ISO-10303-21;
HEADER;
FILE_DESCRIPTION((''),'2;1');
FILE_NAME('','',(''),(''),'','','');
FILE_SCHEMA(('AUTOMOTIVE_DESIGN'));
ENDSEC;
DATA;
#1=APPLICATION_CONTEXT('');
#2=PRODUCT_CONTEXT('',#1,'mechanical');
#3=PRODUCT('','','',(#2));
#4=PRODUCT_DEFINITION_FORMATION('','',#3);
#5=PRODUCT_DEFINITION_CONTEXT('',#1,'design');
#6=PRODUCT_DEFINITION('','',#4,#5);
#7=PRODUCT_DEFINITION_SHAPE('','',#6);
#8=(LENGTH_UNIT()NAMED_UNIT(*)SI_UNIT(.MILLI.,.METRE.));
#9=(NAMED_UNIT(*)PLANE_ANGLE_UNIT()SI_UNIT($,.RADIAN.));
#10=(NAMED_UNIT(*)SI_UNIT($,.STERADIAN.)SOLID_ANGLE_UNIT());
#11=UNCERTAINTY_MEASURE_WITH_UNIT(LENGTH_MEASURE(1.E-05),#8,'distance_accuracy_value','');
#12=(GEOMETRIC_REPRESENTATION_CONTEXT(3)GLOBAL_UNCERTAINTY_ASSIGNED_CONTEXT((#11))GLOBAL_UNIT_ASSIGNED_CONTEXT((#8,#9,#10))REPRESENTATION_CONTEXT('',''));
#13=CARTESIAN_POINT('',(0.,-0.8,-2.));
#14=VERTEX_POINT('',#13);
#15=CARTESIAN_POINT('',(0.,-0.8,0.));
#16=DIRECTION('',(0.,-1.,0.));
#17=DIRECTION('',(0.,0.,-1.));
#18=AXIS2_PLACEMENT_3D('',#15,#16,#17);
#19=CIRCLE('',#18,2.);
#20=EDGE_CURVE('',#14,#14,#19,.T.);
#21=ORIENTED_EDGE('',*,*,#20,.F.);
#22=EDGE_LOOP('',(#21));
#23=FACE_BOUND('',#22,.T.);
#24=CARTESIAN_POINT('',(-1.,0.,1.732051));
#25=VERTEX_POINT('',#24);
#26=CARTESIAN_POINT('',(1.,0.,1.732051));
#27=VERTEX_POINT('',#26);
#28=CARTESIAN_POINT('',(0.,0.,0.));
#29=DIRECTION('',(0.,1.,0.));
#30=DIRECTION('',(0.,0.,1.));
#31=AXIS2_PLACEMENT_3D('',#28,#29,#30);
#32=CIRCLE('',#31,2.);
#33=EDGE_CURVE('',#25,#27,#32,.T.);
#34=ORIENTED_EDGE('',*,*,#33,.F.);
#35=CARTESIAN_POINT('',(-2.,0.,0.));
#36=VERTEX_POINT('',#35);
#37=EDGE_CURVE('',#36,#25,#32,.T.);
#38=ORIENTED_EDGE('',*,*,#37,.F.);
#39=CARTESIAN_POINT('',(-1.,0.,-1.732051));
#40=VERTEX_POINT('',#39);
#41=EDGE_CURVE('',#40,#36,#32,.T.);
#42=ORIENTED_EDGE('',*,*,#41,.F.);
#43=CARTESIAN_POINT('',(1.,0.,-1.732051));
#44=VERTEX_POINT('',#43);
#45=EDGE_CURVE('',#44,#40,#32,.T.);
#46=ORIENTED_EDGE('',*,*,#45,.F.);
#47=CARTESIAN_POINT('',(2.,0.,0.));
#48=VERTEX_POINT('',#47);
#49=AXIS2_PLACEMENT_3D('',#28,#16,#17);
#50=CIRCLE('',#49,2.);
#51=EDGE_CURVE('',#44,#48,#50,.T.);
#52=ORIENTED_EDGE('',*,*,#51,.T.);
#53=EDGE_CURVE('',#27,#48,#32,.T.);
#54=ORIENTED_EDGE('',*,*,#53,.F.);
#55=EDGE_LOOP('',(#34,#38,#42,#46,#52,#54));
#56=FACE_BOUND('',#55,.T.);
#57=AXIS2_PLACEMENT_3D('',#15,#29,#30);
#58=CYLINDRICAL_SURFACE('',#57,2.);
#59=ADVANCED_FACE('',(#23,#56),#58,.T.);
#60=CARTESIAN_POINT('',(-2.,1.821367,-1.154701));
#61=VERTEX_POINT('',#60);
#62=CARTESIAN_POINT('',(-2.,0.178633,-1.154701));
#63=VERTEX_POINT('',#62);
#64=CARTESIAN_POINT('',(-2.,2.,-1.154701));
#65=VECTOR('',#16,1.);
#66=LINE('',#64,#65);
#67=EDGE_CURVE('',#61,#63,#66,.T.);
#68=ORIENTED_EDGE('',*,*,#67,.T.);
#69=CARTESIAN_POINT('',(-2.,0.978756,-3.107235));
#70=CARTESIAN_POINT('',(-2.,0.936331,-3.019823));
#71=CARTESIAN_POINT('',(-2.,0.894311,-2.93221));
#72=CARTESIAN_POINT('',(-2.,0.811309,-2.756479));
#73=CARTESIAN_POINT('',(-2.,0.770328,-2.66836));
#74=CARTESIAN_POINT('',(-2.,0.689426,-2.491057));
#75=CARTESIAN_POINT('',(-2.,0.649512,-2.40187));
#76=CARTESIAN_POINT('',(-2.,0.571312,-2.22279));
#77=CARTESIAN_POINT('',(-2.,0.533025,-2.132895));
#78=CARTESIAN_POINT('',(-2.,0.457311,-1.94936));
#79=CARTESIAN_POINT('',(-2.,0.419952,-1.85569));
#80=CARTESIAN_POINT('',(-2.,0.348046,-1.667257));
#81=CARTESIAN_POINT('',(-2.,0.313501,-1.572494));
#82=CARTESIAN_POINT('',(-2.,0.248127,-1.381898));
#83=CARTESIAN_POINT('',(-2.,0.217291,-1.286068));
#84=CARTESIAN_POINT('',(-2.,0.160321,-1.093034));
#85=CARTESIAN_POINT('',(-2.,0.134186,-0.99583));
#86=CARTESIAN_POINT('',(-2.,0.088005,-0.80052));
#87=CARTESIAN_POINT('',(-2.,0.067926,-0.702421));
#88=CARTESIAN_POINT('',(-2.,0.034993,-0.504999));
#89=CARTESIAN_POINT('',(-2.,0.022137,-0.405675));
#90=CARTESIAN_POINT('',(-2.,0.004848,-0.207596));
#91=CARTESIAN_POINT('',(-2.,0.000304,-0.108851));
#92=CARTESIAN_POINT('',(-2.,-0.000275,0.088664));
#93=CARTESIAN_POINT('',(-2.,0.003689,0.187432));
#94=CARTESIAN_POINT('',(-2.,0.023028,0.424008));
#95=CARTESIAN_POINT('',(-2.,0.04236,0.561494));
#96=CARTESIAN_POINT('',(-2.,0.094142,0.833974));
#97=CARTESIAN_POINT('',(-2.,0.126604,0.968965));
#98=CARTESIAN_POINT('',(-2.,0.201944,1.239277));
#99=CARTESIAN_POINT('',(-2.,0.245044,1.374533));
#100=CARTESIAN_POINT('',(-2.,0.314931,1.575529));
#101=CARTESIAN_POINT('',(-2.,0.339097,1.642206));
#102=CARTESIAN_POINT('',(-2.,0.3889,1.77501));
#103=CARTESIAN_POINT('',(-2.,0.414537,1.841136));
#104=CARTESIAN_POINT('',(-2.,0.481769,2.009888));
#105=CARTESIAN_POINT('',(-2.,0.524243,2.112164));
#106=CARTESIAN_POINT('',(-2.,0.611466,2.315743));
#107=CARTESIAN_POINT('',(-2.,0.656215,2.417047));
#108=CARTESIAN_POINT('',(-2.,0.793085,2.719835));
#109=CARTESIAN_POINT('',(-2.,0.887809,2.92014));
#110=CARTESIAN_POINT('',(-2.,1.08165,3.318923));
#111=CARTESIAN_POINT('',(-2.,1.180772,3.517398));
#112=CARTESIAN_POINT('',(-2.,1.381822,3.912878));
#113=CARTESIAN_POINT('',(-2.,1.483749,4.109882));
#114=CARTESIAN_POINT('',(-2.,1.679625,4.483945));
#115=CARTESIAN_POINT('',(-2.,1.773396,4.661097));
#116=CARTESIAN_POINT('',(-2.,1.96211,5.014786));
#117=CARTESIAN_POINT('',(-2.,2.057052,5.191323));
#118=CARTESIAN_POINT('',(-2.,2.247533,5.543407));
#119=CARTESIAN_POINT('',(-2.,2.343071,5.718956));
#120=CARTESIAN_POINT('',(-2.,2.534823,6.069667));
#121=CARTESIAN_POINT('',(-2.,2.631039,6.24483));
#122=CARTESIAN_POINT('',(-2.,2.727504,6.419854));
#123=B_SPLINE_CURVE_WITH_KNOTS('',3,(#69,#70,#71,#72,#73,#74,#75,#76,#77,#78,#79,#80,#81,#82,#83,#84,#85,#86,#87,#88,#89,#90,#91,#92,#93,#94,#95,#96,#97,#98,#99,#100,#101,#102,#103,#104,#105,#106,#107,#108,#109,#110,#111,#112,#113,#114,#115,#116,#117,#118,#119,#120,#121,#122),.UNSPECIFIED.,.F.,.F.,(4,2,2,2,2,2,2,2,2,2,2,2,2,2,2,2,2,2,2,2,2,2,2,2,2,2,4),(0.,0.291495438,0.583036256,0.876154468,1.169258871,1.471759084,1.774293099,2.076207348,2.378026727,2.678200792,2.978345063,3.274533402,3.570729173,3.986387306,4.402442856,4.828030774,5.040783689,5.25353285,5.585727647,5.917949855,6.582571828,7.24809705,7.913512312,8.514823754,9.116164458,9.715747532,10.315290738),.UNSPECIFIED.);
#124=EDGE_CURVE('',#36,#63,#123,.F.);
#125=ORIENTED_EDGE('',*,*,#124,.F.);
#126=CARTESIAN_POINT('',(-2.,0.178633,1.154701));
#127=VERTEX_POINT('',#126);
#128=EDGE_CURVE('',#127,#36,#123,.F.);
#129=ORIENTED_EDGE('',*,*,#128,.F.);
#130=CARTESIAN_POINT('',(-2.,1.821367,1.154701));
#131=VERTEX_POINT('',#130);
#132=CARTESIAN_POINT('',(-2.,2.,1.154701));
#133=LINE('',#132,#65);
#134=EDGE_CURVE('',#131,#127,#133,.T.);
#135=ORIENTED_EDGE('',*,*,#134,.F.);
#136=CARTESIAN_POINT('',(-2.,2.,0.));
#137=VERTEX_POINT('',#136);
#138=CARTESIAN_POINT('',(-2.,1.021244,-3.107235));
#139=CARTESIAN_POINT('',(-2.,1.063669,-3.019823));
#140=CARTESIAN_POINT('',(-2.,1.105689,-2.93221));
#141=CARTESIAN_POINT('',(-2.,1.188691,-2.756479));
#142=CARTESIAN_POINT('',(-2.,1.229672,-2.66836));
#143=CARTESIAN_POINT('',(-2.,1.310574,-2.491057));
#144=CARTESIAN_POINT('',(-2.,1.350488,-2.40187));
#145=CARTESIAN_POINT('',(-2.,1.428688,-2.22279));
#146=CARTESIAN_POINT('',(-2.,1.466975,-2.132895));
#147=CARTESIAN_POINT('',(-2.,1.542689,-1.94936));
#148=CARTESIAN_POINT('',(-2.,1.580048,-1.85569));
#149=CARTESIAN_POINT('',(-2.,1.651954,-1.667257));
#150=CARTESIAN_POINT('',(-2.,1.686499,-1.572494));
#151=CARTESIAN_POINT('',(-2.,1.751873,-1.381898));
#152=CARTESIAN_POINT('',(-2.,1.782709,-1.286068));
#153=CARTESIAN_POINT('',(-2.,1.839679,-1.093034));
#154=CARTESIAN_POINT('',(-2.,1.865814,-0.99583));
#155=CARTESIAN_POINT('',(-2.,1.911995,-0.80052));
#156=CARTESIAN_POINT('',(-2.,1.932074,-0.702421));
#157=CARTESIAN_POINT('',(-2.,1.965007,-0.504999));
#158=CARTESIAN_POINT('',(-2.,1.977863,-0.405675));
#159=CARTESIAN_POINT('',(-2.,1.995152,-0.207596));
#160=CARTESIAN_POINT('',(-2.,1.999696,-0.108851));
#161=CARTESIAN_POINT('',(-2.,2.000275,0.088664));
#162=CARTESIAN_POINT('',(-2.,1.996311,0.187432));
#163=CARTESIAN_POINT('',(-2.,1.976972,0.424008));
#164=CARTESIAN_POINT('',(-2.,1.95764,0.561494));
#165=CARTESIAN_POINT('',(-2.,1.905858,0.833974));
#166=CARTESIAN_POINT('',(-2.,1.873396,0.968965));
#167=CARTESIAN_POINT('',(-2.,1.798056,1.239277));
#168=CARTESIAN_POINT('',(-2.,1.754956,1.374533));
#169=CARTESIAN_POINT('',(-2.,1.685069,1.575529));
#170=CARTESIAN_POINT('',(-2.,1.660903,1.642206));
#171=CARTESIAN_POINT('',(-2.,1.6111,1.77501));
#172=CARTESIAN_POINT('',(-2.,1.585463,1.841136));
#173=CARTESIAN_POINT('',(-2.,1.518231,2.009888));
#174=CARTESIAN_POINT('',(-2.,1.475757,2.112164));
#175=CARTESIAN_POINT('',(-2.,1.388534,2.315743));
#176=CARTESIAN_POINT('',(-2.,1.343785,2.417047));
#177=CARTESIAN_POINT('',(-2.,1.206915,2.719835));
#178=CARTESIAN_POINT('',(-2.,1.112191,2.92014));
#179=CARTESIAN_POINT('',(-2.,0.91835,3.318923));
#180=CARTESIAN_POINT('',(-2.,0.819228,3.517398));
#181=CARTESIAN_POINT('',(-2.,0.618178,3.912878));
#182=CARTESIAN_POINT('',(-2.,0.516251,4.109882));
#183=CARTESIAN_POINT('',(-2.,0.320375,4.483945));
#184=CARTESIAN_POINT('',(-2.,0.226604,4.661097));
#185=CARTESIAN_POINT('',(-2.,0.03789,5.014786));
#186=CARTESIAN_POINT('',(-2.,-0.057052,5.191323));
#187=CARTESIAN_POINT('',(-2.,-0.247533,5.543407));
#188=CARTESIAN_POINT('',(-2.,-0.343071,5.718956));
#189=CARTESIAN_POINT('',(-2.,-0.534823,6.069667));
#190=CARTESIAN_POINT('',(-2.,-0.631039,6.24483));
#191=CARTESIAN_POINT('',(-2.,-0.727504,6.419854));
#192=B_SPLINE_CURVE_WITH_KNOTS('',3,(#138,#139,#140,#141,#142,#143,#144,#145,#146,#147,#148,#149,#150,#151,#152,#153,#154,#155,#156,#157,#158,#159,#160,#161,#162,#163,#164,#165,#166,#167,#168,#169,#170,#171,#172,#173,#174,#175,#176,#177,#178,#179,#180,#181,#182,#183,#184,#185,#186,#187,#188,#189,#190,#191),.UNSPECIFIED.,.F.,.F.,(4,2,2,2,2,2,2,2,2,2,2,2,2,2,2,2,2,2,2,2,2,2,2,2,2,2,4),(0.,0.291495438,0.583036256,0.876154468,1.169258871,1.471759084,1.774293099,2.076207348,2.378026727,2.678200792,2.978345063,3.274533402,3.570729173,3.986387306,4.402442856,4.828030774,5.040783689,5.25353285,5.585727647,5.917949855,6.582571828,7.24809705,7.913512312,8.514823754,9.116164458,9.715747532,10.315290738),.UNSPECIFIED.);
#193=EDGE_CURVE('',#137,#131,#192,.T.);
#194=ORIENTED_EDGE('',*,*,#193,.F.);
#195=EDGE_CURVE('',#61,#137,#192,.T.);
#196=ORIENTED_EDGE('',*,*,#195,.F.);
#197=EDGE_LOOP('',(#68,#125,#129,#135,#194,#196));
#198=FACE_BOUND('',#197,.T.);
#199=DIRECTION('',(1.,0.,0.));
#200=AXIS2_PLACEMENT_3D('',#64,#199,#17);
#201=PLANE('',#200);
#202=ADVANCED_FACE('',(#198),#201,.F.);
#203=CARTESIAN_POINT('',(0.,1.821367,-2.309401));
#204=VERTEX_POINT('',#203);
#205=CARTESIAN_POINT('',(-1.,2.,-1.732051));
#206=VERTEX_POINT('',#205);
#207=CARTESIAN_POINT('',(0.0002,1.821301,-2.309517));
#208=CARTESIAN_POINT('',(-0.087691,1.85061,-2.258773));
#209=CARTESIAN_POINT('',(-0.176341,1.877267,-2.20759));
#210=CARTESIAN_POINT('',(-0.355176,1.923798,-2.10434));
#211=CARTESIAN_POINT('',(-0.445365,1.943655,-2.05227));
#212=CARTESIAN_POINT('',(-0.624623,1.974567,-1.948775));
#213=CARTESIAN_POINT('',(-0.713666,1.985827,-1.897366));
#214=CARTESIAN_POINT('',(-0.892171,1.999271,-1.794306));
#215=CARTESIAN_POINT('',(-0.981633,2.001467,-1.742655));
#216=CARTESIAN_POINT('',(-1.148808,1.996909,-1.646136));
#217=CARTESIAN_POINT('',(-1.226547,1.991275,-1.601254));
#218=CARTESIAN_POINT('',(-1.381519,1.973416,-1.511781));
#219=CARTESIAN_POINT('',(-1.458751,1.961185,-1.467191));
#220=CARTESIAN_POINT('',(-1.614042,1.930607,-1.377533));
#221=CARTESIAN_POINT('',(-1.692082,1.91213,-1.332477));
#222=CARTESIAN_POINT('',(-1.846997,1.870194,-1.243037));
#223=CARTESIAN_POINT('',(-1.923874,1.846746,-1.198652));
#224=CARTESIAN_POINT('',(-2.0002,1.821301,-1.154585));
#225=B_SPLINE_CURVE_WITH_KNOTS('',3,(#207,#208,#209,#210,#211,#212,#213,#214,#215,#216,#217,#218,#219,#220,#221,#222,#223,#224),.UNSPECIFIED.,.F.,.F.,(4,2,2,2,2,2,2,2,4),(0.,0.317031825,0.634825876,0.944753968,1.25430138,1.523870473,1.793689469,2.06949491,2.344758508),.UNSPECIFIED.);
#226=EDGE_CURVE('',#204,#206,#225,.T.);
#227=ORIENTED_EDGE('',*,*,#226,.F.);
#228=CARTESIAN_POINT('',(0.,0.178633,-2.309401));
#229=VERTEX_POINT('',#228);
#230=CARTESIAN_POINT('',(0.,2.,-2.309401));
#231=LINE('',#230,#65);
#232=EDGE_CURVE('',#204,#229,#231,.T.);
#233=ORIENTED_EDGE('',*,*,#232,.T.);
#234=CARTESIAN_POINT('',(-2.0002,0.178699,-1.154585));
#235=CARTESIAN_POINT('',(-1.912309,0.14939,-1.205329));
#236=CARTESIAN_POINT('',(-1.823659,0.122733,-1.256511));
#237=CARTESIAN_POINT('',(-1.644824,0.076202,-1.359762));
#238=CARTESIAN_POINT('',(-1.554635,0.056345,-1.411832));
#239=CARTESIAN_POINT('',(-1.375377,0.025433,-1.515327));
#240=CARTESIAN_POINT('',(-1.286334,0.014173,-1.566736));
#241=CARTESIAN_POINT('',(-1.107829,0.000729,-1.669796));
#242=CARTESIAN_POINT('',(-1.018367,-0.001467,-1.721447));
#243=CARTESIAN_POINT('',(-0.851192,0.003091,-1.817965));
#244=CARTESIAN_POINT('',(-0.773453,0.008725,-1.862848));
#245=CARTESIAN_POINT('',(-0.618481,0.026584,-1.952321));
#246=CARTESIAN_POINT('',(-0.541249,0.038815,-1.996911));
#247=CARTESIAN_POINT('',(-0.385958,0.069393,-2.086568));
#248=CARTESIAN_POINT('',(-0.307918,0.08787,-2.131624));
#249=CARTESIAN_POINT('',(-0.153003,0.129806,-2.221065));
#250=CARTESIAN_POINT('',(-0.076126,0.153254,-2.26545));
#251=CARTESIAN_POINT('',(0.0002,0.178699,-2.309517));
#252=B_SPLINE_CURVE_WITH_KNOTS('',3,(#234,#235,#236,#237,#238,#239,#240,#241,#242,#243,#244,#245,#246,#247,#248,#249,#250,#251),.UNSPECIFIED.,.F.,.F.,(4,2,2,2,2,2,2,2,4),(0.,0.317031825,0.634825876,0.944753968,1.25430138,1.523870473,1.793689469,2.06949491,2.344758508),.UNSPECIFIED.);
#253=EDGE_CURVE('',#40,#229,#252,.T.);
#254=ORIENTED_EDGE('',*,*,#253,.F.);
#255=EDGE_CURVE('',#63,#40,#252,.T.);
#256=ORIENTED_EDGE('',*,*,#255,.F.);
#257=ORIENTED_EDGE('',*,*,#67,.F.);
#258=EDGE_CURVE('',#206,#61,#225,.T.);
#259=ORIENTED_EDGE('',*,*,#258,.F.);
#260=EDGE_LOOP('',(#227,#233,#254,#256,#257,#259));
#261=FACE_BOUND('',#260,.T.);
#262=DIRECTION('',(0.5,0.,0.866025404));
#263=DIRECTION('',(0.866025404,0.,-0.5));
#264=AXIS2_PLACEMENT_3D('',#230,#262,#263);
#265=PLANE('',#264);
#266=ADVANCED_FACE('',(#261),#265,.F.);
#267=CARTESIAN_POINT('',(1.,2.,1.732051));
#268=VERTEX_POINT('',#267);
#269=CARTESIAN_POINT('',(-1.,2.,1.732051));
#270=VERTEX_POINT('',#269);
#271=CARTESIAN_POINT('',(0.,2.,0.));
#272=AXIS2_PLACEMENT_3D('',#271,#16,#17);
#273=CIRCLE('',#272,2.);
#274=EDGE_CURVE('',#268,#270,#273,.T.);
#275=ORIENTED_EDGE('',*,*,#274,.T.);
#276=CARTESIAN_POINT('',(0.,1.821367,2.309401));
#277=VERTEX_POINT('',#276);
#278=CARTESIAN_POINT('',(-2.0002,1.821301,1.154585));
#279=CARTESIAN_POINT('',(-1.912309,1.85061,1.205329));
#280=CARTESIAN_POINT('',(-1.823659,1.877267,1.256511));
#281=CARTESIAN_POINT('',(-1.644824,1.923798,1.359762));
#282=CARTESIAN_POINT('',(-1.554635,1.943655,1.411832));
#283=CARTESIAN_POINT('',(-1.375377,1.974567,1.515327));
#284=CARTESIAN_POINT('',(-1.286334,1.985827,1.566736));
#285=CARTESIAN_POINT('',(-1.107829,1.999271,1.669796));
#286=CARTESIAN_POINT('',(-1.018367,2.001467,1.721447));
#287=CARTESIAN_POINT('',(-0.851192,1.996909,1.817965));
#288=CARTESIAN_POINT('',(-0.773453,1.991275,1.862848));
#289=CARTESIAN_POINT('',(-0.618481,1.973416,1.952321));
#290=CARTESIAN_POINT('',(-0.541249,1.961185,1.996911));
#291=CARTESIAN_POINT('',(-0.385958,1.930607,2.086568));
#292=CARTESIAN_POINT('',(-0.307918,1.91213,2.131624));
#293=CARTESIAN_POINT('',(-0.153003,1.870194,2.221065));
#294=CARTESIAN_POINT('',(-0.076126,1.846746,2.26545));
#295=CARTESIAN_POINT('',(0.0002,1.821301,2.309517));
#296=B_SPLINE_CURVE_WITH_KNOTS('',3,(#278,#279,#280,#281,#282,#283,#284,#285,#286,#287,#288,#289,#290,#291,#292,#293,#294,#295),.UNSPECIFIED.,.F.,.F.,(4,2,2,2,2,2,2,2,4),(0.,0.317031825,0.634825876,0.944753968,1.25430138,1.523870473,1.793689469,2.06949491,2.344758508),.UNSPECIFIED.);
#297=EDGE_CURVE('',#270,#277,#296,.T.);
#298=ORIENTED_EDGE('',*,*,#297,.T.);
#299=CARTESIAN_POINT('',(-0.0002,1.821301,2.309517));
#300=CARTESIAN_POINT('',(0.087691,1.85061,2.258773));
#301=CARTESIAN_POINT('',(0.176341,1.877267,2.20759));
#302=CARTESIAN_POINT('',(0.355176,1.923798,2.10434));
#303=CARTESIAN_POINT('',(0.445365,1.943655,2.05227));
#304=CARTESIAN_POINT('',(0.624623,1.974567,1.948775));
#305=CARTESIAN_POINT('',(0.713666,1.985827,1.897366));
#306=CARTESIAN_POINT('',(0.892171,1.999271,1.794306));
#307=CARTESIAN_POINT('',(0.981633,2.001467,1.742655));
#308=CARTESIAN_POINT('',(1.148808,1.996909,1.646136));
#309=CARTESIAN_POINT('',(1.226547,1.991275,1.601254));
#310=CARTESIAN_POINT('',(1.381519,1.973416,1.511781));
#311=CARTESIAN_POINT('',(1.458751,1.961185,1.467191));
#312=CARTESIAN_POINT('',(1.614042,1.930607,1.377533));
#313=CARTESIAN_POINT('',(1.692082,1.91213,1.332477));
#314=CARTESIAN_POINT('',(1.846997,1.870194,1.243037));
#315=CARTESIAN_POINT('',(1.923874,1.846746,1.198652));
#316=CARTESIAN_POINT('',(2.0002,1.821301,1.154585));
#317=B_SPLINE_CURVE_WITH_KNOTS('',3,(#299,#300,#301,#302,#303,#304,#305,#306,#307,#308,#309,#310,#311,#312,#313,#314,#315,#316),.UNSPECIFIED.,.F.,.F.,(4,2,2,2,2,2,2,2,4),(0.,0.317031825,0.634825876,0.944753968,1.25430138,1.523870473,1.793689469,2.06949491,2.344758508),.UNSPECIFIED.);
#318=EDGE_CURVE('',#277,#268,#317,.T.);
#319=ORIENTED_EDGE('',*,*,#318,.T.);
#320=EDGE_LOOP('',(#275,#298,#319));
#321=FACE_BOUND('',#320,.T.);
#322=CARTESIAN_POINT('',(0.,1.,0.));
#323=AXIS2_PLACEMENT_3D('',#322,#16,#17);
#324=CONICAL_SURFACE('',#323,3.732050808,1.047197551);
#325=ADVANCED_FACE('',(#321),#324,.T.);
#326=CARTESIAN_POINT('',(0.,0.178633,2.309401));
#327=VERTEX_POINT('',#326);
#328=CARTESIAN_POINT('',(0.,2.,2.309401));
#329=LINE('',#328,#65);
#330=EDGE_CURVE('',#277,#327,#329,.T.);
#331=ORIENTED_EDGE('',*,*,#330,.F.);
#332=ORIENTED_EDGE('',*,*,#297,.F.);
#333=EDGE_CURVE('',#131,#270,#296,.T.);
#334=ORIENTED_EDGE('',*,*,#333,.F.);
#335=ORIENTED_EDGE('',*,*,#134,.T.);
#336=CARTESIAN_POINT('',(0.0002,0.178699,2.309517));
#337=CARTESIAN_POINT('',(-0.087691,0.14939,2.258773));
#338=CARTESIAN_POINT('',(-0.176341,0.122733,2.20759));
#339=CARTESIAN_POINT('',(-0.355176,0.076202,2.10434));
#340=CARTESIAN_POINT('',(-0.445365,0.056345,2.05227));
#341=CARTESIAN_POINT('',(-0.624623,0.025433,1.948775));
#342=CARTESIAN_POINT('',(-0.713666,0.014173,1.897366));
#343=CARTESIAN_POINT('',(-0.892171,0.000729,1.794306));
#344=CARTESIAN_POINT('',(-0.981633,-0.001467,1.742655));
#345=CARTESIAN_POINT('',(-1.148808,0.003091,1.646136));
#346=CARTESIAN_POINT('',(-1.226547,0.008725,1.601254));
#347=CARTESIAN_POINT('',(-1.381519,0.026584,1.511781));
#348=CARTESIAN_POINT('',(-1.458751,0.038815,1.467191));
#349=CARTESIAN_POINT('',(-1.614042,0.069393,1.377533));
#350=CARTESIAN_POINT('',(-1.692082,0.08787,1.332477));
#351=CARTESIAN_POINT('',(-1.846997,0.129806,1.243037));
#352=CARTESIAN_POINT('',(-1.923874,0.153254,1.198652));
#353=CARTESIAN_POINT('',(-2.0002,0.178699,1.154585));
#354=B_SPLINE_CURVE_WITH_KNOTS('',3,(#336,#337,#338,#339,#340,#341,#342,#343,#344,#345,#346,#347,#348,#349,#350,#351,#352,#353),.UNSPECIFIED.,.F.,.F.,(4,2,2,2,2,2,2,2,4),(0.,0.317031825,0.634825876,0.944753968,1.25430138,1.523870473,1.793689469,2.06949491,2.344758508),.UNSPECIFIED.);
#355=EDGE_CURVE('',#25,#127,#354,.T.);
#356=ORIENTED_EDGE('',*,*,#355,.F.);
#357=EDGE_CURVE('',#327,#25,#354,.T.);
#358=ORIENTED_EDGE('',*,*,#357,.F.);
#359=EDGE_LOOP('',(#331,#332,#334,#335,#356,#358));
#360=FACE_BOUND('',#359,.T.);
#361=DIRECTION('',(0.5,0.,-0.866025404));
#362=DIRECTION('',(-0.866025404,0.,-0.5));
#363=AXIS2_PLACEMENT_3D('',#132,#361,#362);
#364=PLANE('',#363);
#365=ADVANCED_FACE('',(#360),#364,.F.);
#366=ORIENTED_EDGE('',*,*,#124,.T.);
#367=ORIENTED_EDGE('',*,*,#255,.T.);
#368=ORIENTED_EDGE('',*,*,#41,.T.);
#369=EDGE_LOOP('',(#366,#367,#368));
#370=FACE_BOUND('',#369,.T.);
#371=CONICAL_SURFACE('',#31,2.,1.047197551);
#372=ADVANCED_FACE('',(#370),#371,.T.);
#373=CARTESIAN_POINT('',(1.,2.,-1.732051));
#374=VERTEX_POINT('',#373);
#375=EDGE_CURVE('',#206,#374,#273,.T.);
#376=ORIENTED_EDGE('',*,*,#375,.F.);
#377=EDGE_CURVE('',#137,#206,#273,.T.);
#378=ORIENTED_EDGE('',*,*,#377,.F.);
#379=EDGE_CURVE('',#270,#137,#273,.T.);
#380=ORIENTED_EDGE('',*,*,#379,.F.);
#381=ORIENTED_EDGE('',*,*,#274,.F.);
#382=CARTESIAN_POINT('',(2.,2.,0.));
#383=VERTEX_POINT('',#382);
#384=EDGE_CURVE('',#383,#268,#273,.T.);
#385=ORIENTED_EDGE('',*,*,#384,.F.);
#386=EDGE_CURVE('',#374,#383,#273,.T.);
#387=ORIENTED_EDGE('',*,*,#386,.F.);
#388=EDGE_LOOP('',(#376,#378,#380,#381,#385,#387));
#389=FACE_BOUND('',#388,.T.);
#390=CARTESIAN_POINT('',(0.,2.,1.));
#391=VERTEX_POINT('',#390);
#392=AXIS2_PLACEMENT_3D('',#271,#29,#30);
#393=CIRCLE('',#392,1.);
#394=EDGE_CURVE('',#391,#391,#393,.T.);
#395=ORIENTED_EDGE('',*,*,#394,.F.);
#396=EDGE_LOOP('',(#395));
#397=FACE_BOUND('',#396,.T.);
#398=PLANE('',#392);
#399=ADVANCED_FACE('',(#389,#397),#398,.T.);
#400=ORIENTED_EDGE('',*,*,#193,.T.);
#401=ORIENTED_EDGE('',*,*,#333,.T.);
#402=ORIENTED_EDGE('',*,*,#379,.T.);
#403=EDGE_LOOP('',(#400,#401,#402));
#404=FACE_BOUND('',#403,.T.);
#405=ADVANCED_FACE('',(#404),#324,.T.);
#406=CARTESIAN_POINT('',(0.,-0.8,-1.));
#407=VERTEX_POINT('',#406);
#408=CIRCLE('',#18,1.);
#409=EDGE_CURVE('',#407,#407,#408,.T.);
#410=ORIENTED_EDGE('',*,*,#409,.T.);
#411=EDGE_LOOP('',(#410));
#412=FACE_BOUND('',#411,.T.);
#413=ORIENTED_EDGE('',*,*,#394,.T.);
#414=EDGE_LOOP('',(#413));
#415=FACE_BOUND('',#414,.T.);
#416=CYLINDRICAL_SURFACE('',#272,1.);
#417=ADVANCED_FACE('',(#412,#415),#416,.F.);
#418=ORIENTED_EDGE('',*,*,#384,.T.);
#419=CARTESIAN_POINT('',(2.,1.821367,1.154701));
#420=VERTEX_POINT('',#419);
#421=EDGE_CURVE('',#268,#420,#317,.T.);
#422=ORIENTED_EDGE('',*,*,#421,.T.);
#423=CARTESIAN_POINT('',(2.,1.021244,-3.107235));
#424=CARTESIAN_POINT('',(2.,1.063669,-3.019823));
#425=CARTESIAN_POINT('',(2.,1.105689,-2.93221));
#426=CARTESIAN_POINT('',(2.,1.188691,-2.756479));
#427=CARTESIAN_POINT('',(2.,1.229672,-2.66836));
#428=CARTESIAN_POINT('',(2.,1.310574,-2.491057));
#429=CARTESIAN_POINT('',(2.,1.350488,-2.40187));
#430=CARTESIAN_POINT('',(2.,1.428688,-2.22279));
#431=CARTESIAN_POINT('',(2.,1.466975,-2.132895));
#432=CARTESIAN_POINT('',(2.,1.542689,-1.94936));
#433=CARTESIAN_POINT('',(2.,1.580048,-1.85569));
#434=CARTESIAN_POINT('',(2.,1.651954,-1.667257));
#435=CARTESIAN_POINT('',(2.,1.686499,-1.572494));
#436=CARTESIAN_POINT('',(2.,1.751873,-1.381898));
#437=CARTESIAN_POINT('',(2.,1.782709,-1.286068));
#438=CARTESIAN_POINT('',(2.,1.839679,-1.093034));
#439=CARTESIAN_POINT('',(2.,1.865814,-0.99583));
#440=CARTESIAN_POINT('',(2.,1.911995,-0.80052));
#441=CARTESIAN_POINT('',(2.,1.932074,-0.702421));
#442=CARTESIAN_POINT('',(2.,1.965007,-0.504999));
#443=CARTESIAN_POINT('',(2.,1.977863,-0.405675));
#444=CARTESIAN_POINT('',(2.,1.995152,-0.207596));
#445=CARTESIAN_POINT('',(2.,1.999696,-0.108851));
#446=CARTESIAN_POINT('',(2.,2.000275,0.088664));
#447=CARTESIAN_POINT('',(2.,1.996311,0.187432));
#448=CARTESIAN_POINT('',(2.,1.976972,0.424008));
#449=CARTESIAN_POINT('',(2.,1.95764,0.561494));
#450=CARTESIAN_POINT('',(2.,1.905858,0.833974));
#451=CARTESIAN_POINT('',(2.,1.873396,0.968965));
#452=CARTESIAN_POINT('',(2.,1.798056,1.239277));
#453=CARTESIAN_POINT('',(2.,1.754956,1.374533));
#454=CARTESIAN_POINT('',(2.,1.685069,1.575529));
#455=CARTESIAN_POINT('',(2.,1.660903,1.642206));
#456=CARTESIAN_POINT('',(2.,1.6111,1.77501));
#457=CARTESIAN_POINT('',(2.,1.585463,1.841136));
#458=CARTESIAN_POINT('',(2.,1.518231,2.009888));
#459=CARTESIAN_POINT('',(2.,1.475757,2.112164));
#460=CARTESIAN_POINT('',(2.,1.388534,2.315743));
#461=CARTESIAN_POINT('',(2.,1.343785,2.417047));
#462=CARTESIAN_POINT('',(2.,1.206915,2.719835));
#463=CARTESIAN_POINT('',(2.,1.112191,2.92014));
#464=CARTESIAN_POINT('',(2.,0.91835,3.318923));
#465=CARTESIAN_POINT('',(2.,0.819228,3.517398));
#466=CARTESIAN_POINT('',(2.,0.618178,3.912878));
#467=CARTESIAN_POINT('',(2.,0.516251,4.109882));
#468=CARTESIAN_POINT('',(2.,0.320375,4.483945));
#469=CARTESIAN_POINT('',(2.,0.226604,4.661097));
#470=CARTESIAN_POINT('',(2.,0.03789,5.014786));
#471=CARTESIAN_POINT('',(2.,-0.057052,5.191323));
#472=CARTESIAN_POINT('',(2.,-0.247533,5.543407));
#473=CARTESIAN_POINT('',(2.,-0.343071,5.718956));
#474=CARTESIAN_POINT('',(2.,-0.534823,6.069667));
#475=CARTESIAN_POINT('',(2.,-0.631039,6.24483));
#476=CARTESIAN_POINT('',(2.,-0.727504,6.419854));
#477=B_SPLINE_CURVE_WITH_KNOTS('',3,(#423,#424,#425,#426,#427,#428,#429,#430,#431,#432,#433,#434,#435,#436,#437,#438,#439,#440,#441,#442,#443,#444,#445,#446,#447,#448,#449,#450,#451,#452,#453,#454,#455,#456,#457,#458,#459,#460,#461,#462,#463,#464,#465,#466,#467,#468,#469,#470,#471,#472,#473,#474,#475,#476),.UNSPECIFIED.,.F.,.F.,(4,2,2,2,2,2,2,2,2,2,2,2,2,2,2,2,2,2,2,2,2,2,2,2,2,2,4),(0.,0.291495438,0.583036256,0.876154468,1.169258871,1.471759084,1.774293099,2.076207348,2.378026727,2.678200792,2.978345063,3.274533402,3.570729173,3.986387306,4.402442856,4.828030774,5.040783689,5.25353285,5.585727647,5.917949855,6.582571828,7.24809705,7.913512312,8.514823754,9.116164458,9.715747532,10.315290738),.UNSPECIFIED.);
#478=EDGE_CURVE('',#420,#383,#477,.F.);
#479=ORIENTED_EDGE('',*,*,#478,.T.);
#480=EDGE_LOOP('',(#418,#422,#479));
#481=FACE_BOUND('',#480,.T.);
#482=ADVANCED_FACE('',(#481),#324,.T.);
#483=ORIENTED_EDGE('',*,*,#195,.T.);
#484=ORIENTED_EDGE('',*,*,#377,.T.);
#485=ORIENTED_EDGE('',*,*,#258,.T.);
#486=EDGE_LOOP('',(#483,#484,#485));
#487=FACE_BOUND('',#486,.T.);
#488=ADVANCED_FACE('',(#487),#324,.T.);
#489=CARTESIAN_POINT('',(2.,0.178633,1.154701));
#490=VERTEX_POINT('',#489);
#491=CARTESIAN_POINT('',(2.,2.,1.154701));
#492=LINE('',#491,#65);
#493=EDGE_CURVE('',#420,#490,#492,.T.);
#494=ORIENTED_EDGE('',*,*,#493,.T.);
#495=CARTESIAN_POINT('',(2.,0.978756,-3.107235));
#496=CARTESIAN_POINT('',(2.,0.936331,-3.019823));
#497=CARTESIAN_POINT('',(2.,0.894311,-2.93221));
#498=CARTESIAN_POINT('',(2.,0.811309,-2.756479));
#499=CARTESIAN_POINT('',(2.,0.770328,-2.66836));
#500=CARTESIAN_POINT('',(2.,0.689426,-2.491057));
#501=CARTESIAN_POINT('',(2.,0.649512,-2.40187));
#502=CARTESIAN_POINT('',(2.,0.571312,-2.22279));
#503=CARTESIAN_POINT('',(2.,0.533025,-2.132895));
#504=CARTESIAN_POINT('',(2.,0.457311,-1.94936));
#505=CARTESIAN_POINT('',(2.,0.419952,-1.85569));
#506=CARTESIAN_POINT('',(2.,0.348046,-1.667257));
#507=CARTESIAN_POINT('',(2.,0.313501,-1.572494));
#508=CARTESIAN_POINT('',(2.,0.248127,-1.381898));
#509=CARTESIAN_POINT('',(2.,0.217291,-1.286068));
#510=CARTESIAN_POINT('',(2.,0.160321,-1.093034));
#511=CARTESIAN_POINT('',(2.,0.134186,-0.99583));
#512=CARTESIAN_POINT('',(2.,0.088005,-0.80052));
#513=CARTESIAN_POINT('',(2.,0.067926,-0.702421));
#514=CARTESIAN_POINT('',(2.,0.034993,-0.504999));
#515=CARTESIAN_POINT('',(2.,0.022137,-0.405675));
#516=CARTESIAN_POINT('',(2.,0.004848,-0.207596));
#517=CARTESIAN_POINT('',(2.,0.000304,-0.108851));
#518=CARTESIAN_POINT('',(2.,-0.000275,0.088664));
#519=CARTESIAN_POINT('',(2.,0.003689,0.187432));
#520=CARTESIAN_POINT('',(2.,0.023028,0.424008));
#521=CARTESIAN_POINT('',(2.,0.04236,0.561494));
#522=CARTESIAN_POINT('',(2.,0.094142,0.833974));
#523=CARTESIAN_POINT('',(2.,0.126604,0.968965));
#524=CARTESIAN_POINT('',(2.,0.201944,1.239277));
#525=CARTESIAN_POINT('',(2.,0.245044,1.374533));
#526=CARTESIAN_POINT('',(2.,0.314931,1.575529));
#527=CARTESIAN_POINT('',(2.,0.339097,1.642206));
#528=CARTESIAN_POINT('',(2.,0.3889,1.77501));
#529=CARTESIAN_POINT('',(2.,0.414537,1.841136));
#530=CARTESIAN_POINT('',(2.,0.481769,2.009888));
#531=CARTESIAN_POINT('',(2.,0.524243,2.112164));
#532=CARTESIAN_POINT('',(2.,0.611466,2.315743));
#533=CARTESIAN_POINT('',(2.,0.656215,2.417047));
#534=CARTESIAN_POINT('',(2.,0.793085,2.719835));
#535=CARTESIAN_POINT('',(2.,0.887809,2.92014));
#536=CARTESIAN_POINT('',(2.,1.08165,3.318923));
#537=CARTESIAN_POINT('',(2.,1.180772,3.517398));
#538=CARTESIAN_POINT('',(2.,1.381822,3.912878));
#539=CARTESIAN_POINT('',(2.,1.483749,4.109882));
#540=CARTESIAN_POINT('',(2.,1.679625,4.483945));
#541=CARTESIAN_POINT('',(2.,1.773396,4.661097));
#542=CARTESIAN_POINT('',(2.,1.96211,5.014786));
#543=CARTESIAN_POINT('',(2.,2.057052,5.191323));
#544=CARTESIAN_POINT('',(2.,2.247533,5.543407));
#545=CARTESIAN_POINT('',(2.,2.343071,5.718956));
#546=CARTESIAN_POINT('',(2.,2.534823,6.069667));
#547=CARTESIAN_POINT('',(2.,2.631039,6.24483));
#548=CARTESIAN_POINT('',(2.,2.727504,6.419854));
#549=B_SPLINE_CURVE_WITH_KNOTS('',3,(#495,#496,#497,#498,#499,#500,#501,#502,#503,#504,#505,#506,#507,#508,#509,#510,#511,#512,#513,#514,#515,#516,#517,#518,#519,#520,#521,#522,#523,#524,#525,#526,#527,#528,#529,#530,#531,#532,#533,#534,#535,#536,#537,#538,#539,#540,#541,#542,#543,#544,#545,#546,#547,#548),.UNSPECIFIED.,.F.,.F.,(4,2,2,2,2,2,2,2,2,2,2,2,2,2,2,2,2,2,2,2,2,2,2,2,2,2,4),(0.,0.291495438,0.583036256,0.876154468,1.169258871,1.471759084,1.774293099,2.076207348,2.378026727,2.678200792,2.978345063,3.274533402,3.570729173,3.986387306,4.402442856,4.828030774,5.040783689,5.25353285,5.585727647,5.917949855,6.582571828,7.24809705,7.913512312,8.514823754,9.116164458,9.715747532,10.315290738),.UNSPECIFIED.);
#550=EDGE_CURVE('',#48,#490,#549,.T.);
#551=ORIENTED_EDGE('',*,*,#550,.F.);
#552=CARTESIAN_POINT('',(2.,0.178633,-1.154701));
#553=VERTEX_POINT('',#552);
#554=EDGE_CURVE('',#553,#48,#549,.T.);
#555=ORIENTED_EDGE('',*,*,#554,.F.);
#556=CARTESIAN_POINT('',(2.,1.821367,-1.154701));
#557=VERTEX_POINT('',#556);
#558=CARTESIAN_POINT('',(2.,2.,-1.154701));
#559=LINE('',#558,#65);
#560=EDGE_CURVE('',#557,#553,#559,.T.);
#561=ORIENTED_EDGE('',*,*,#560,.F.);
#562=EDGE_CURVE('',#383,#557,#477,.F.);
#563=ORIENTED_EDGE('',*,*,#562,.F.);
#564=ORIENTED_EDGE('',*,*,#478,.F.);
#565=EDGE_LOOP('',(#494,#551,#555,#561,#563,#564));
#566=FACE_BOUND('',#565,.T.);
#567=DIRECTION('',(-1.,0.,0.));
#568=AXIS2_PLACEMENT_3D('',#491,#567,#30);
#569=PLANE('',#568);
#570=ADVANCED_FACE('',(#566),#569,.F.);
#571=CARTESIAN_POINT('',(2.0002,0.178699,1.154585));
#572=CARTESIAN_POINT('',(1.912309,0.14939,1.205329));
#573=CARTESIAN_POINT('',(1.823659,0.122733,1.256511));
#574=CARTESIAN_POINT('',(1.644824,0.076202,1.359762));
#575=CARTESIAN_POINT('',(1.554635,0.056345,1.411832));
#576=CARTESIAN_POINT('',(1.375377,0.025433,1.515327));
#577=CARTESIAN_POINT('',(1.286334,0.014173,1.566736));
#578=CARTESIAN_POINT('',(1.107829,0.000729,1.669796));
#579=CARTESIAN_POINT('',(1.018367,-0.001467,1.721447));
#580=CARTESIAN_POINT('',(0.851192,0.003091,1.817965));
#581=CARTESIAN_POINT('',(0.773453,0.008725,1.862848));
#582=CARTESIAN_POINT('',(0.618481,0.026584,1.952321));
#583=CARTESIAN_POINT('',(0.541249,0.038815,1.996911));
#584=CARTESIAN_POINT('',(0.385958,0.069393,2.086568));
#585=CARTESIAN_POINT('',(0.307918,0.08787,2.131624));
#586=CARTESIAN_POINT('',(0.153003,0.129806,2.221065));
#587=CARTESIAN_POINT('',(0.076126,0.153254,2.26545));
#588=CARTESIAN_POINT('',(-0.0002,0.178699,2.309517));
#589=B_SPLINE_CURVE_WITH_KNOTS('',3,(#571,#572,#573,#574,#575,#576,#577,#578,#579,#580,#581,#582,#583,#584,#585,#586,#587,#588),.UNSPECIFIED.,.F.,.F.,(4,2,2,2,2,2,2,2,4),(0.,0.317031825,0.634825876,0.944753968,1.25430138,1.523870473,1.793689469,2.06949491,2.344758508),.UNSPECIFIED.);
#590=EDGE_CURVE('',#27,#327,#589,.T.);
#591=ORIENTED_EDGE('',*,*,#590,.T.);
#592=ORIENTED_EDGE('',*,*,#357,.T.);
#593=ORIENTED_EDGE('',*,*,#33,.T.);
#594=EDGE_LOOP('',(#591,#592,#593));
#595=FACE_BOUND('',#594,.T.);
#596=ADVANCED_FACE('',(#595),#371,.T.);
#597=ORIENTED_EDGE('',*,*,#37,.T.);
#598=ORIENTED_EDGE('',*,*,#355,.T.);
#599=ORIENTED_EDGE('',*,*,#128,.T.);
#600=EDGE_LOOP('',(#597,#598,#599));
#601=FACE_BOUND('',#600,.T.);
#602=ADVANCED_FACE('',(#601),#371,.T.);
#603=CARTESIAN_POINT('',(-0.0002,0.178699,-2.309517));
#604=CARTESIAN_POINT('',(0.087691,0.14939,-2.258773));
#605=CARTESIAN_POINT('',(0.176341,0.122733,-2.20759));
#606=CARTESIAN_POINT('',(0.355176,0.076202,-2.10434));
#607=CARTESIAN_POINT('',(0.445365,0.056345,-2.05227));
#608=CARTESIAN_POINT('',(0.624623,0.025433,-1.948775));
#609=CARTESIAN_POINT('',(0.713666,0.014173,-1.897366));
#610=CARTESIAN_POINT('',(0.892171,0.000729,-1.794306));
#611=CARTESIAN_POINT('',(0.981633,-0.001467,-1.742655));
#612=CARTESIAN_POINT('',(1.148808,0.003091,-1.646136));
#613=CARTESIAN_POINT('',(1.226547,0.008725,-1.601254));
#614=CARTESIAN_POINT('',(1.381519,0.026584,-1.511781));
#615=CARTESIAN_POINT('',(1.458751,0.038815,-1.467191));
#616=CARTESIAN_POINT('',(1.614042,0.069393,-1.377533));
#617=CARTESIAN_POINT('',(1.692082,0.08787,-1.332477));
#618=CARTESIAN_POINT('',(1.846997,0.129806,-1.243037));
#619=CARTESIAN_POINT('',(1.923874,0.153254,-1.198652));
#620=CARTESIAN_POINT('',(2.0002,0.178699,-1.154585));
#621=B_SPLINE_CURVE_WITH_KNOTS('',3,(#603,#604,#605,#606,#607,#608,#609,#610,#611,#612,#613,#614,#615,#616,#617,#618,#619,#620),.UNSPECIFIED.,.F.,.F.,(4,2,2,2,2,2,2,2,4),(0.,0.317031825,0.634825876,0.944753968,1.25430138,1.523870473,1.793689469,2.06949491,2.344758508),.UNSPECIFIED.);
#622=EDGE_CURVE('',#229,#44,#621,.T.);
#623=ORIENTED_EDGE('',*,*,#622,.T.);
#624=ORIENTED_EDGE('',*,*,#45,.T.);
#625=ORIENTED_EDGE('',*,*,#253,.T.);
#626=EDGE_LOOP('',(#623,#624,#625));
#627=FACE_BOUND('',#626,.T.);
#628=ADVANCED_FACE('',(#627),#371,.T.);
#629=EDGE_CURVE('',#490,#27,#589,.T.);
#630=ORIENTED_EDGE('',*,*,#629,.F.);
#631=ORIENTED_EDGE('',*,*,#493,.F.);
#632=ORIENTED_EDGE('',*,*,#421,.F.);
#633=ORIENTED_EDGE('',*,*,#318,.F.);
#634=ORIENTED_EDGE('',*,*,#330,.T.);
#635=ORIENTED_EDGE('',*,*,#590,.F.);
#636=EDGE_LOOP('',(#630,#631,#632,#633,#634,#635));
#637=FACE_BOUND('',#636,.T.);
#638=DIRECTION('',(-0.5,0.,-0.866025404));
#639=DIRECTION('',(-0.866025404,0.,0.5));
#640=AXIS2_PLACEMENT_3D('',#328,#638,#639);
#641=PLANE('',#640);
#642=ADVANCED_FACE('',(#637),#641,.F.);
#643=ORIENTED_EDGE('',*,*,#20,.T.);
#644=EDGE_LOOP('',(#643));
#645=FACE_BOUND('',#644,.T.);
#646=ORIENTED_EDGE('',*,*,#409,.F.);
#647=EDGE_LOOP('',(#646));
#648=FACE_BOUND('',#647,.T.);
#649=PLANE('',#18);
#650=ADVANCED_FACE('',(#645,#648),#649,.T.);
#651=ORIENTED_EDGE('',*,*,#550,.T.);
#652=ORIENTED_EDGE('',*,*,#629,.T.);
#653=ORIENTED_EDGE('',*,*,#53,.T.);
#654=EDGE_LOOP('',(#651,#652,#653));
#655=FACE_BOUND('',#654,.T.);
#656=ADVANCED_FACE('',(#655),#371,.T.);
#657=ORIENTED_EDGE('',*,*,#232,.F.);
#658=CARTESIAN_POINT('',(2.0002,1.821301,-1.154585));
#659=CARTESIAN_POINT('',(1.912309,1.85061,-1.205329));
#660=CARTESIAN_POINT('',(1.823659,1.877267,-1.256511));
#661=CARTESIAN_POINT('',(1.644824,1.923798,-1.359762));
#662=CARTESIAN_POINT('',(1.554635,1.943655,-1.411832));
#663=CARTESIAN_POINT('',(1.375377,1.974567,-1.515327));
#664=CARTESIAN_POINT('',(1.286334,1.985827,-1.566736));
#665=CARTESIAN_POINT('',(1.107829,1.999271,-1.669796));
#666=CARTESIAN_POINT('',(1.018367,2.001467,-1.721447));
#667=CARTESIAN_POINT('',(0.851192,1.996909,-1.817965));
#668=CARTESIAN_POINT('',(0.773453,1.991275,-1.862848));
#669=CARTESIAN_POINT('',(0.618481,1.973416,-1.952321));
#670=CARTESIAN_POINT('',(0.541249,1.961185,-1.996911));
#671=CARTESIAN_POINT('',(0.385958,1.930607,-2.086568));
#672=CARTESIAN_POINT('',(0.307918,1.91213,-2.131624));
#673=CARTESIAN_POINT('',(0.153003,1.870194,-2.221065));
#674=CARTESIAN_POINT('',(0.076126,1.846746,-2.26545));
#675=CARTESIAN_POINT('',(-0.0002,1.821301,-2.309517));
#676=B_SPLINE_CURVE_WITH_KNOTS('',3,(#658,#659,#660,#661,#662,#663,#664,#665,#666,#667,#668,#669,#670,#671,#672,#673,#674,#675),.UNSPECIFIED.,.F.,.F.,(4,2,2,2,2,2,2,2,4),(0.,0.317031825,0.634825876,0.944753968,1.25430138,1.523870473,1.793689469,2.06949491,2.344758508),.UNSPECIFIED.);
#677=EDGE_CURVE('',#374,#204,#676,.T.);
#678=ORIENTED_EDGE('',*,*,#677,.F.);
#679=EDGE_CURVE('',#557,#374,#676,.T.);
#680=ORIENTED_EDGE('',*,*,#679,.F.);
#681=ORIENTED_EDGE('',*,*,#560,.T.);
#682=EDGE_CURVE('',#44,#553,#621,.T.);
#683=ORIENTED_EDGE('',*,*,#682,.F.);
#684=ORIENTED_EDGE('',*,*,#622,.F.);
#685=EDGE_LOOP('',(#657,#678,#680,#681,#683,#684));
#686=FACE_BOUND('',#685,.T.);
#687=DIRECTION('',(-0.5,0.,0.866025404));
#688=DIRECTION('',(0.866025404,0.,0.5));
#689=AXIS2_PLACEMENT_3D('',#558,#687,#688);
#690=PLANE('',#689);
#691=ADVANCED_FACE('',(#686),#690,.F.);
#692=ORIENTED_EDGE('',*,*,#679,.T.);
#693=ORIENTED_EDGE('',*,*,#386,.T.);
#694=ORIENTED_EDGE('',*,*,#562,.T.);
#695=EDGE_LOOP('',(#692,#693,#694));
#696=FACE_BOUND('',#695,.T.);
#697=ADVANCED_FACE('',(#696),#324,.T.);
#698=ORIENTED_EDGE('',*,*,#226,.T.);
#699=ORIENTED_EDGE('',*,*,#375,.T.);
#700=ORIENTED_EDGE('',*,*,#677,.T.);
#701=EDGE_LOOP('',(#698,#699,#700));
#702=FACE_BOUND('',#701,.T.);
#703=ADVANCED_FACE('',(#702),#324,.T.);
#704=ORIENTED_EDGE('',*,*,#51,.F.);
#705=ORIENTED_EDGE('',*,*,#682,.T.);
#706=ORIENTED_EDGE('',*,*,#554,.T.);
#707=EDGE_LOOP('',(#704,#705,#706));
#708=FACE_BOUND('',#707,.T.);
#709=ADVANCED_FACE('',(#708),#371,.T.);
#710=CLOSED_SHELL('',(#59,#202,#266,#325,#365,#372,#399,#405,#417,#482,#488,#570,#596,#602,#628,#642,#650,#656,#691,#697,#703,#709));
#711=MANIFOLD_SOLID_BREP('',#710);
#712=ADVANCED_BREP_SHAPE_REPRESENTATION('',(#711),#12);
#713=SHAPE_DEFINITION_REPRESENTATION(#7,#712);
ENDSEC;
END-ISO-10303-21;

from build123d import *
from build123d.topology import SkipClean

# Parameters (mm, degrees)
SKETCH_1_R      = 1
EXTRUDE_2_DEPTH = 2
EXTRUDE_START   = 0.8
SKETCH_3_R      = 2
SKETCH_3_R_2    = 1
EXTRUDE_3_DEPTH = 0.8


with BuildPart() as part:
    # 草图1 → 凸台-拉伸2 (new body)
    with BuildSketch(Plane(origin=(0, 0, 0), x_dir=(1, 0, 0), z_dir=(0, 1, 0))):
        Polygon((2, 1.154700538), (0, 2.309401077), (-2, 1.154700538), (-2, -1.154700538), (0, -2.309401077), (2, -1.154700538), align=None)
        with Locations(Location((0, 0, 0), (0, 0, 270))):
            Circle(SKETCH_1_R, mode=Mode.SUBTRACT)
    extrude(amount=EXTRUDE_2_DEPTH)

    # 草图2 → 切除-旋转1 (revolve, cut)
    with BuildSketch(Plane.XY):
        Polygon((3.732050808, 1), (2, 2), (3.732050808, 2), align=None)
        Polygon((2, 0), (3.732050808, 1), (3.732050808, 0), align=None)
    revolve(axis=Axis((0, 1.981363764, 0), (0, 1, 0)), mode=Mode.SUBTRACT)

    # 草图3 → 凸台-拉伸3 (add)
    with SkipClean():  # the faces are left unmerged after this step: merging them gives an invalid solid
        with BuildSketch(Plane.XZ.offset(EXTRUDE_START)):
            with Locations(Location((0, 0, 0), (0, 0, 60))):
                Circle(SKETCH_3_R)
            with Locations(Location((0, 0, 0), (0, 0, 270))):
                Circle(SKETCH_3_R_2, mode=Mode.SUBTRACT)
        extrude(amount=-EXTRUDE_3_DEPTH)


solid = part.part
